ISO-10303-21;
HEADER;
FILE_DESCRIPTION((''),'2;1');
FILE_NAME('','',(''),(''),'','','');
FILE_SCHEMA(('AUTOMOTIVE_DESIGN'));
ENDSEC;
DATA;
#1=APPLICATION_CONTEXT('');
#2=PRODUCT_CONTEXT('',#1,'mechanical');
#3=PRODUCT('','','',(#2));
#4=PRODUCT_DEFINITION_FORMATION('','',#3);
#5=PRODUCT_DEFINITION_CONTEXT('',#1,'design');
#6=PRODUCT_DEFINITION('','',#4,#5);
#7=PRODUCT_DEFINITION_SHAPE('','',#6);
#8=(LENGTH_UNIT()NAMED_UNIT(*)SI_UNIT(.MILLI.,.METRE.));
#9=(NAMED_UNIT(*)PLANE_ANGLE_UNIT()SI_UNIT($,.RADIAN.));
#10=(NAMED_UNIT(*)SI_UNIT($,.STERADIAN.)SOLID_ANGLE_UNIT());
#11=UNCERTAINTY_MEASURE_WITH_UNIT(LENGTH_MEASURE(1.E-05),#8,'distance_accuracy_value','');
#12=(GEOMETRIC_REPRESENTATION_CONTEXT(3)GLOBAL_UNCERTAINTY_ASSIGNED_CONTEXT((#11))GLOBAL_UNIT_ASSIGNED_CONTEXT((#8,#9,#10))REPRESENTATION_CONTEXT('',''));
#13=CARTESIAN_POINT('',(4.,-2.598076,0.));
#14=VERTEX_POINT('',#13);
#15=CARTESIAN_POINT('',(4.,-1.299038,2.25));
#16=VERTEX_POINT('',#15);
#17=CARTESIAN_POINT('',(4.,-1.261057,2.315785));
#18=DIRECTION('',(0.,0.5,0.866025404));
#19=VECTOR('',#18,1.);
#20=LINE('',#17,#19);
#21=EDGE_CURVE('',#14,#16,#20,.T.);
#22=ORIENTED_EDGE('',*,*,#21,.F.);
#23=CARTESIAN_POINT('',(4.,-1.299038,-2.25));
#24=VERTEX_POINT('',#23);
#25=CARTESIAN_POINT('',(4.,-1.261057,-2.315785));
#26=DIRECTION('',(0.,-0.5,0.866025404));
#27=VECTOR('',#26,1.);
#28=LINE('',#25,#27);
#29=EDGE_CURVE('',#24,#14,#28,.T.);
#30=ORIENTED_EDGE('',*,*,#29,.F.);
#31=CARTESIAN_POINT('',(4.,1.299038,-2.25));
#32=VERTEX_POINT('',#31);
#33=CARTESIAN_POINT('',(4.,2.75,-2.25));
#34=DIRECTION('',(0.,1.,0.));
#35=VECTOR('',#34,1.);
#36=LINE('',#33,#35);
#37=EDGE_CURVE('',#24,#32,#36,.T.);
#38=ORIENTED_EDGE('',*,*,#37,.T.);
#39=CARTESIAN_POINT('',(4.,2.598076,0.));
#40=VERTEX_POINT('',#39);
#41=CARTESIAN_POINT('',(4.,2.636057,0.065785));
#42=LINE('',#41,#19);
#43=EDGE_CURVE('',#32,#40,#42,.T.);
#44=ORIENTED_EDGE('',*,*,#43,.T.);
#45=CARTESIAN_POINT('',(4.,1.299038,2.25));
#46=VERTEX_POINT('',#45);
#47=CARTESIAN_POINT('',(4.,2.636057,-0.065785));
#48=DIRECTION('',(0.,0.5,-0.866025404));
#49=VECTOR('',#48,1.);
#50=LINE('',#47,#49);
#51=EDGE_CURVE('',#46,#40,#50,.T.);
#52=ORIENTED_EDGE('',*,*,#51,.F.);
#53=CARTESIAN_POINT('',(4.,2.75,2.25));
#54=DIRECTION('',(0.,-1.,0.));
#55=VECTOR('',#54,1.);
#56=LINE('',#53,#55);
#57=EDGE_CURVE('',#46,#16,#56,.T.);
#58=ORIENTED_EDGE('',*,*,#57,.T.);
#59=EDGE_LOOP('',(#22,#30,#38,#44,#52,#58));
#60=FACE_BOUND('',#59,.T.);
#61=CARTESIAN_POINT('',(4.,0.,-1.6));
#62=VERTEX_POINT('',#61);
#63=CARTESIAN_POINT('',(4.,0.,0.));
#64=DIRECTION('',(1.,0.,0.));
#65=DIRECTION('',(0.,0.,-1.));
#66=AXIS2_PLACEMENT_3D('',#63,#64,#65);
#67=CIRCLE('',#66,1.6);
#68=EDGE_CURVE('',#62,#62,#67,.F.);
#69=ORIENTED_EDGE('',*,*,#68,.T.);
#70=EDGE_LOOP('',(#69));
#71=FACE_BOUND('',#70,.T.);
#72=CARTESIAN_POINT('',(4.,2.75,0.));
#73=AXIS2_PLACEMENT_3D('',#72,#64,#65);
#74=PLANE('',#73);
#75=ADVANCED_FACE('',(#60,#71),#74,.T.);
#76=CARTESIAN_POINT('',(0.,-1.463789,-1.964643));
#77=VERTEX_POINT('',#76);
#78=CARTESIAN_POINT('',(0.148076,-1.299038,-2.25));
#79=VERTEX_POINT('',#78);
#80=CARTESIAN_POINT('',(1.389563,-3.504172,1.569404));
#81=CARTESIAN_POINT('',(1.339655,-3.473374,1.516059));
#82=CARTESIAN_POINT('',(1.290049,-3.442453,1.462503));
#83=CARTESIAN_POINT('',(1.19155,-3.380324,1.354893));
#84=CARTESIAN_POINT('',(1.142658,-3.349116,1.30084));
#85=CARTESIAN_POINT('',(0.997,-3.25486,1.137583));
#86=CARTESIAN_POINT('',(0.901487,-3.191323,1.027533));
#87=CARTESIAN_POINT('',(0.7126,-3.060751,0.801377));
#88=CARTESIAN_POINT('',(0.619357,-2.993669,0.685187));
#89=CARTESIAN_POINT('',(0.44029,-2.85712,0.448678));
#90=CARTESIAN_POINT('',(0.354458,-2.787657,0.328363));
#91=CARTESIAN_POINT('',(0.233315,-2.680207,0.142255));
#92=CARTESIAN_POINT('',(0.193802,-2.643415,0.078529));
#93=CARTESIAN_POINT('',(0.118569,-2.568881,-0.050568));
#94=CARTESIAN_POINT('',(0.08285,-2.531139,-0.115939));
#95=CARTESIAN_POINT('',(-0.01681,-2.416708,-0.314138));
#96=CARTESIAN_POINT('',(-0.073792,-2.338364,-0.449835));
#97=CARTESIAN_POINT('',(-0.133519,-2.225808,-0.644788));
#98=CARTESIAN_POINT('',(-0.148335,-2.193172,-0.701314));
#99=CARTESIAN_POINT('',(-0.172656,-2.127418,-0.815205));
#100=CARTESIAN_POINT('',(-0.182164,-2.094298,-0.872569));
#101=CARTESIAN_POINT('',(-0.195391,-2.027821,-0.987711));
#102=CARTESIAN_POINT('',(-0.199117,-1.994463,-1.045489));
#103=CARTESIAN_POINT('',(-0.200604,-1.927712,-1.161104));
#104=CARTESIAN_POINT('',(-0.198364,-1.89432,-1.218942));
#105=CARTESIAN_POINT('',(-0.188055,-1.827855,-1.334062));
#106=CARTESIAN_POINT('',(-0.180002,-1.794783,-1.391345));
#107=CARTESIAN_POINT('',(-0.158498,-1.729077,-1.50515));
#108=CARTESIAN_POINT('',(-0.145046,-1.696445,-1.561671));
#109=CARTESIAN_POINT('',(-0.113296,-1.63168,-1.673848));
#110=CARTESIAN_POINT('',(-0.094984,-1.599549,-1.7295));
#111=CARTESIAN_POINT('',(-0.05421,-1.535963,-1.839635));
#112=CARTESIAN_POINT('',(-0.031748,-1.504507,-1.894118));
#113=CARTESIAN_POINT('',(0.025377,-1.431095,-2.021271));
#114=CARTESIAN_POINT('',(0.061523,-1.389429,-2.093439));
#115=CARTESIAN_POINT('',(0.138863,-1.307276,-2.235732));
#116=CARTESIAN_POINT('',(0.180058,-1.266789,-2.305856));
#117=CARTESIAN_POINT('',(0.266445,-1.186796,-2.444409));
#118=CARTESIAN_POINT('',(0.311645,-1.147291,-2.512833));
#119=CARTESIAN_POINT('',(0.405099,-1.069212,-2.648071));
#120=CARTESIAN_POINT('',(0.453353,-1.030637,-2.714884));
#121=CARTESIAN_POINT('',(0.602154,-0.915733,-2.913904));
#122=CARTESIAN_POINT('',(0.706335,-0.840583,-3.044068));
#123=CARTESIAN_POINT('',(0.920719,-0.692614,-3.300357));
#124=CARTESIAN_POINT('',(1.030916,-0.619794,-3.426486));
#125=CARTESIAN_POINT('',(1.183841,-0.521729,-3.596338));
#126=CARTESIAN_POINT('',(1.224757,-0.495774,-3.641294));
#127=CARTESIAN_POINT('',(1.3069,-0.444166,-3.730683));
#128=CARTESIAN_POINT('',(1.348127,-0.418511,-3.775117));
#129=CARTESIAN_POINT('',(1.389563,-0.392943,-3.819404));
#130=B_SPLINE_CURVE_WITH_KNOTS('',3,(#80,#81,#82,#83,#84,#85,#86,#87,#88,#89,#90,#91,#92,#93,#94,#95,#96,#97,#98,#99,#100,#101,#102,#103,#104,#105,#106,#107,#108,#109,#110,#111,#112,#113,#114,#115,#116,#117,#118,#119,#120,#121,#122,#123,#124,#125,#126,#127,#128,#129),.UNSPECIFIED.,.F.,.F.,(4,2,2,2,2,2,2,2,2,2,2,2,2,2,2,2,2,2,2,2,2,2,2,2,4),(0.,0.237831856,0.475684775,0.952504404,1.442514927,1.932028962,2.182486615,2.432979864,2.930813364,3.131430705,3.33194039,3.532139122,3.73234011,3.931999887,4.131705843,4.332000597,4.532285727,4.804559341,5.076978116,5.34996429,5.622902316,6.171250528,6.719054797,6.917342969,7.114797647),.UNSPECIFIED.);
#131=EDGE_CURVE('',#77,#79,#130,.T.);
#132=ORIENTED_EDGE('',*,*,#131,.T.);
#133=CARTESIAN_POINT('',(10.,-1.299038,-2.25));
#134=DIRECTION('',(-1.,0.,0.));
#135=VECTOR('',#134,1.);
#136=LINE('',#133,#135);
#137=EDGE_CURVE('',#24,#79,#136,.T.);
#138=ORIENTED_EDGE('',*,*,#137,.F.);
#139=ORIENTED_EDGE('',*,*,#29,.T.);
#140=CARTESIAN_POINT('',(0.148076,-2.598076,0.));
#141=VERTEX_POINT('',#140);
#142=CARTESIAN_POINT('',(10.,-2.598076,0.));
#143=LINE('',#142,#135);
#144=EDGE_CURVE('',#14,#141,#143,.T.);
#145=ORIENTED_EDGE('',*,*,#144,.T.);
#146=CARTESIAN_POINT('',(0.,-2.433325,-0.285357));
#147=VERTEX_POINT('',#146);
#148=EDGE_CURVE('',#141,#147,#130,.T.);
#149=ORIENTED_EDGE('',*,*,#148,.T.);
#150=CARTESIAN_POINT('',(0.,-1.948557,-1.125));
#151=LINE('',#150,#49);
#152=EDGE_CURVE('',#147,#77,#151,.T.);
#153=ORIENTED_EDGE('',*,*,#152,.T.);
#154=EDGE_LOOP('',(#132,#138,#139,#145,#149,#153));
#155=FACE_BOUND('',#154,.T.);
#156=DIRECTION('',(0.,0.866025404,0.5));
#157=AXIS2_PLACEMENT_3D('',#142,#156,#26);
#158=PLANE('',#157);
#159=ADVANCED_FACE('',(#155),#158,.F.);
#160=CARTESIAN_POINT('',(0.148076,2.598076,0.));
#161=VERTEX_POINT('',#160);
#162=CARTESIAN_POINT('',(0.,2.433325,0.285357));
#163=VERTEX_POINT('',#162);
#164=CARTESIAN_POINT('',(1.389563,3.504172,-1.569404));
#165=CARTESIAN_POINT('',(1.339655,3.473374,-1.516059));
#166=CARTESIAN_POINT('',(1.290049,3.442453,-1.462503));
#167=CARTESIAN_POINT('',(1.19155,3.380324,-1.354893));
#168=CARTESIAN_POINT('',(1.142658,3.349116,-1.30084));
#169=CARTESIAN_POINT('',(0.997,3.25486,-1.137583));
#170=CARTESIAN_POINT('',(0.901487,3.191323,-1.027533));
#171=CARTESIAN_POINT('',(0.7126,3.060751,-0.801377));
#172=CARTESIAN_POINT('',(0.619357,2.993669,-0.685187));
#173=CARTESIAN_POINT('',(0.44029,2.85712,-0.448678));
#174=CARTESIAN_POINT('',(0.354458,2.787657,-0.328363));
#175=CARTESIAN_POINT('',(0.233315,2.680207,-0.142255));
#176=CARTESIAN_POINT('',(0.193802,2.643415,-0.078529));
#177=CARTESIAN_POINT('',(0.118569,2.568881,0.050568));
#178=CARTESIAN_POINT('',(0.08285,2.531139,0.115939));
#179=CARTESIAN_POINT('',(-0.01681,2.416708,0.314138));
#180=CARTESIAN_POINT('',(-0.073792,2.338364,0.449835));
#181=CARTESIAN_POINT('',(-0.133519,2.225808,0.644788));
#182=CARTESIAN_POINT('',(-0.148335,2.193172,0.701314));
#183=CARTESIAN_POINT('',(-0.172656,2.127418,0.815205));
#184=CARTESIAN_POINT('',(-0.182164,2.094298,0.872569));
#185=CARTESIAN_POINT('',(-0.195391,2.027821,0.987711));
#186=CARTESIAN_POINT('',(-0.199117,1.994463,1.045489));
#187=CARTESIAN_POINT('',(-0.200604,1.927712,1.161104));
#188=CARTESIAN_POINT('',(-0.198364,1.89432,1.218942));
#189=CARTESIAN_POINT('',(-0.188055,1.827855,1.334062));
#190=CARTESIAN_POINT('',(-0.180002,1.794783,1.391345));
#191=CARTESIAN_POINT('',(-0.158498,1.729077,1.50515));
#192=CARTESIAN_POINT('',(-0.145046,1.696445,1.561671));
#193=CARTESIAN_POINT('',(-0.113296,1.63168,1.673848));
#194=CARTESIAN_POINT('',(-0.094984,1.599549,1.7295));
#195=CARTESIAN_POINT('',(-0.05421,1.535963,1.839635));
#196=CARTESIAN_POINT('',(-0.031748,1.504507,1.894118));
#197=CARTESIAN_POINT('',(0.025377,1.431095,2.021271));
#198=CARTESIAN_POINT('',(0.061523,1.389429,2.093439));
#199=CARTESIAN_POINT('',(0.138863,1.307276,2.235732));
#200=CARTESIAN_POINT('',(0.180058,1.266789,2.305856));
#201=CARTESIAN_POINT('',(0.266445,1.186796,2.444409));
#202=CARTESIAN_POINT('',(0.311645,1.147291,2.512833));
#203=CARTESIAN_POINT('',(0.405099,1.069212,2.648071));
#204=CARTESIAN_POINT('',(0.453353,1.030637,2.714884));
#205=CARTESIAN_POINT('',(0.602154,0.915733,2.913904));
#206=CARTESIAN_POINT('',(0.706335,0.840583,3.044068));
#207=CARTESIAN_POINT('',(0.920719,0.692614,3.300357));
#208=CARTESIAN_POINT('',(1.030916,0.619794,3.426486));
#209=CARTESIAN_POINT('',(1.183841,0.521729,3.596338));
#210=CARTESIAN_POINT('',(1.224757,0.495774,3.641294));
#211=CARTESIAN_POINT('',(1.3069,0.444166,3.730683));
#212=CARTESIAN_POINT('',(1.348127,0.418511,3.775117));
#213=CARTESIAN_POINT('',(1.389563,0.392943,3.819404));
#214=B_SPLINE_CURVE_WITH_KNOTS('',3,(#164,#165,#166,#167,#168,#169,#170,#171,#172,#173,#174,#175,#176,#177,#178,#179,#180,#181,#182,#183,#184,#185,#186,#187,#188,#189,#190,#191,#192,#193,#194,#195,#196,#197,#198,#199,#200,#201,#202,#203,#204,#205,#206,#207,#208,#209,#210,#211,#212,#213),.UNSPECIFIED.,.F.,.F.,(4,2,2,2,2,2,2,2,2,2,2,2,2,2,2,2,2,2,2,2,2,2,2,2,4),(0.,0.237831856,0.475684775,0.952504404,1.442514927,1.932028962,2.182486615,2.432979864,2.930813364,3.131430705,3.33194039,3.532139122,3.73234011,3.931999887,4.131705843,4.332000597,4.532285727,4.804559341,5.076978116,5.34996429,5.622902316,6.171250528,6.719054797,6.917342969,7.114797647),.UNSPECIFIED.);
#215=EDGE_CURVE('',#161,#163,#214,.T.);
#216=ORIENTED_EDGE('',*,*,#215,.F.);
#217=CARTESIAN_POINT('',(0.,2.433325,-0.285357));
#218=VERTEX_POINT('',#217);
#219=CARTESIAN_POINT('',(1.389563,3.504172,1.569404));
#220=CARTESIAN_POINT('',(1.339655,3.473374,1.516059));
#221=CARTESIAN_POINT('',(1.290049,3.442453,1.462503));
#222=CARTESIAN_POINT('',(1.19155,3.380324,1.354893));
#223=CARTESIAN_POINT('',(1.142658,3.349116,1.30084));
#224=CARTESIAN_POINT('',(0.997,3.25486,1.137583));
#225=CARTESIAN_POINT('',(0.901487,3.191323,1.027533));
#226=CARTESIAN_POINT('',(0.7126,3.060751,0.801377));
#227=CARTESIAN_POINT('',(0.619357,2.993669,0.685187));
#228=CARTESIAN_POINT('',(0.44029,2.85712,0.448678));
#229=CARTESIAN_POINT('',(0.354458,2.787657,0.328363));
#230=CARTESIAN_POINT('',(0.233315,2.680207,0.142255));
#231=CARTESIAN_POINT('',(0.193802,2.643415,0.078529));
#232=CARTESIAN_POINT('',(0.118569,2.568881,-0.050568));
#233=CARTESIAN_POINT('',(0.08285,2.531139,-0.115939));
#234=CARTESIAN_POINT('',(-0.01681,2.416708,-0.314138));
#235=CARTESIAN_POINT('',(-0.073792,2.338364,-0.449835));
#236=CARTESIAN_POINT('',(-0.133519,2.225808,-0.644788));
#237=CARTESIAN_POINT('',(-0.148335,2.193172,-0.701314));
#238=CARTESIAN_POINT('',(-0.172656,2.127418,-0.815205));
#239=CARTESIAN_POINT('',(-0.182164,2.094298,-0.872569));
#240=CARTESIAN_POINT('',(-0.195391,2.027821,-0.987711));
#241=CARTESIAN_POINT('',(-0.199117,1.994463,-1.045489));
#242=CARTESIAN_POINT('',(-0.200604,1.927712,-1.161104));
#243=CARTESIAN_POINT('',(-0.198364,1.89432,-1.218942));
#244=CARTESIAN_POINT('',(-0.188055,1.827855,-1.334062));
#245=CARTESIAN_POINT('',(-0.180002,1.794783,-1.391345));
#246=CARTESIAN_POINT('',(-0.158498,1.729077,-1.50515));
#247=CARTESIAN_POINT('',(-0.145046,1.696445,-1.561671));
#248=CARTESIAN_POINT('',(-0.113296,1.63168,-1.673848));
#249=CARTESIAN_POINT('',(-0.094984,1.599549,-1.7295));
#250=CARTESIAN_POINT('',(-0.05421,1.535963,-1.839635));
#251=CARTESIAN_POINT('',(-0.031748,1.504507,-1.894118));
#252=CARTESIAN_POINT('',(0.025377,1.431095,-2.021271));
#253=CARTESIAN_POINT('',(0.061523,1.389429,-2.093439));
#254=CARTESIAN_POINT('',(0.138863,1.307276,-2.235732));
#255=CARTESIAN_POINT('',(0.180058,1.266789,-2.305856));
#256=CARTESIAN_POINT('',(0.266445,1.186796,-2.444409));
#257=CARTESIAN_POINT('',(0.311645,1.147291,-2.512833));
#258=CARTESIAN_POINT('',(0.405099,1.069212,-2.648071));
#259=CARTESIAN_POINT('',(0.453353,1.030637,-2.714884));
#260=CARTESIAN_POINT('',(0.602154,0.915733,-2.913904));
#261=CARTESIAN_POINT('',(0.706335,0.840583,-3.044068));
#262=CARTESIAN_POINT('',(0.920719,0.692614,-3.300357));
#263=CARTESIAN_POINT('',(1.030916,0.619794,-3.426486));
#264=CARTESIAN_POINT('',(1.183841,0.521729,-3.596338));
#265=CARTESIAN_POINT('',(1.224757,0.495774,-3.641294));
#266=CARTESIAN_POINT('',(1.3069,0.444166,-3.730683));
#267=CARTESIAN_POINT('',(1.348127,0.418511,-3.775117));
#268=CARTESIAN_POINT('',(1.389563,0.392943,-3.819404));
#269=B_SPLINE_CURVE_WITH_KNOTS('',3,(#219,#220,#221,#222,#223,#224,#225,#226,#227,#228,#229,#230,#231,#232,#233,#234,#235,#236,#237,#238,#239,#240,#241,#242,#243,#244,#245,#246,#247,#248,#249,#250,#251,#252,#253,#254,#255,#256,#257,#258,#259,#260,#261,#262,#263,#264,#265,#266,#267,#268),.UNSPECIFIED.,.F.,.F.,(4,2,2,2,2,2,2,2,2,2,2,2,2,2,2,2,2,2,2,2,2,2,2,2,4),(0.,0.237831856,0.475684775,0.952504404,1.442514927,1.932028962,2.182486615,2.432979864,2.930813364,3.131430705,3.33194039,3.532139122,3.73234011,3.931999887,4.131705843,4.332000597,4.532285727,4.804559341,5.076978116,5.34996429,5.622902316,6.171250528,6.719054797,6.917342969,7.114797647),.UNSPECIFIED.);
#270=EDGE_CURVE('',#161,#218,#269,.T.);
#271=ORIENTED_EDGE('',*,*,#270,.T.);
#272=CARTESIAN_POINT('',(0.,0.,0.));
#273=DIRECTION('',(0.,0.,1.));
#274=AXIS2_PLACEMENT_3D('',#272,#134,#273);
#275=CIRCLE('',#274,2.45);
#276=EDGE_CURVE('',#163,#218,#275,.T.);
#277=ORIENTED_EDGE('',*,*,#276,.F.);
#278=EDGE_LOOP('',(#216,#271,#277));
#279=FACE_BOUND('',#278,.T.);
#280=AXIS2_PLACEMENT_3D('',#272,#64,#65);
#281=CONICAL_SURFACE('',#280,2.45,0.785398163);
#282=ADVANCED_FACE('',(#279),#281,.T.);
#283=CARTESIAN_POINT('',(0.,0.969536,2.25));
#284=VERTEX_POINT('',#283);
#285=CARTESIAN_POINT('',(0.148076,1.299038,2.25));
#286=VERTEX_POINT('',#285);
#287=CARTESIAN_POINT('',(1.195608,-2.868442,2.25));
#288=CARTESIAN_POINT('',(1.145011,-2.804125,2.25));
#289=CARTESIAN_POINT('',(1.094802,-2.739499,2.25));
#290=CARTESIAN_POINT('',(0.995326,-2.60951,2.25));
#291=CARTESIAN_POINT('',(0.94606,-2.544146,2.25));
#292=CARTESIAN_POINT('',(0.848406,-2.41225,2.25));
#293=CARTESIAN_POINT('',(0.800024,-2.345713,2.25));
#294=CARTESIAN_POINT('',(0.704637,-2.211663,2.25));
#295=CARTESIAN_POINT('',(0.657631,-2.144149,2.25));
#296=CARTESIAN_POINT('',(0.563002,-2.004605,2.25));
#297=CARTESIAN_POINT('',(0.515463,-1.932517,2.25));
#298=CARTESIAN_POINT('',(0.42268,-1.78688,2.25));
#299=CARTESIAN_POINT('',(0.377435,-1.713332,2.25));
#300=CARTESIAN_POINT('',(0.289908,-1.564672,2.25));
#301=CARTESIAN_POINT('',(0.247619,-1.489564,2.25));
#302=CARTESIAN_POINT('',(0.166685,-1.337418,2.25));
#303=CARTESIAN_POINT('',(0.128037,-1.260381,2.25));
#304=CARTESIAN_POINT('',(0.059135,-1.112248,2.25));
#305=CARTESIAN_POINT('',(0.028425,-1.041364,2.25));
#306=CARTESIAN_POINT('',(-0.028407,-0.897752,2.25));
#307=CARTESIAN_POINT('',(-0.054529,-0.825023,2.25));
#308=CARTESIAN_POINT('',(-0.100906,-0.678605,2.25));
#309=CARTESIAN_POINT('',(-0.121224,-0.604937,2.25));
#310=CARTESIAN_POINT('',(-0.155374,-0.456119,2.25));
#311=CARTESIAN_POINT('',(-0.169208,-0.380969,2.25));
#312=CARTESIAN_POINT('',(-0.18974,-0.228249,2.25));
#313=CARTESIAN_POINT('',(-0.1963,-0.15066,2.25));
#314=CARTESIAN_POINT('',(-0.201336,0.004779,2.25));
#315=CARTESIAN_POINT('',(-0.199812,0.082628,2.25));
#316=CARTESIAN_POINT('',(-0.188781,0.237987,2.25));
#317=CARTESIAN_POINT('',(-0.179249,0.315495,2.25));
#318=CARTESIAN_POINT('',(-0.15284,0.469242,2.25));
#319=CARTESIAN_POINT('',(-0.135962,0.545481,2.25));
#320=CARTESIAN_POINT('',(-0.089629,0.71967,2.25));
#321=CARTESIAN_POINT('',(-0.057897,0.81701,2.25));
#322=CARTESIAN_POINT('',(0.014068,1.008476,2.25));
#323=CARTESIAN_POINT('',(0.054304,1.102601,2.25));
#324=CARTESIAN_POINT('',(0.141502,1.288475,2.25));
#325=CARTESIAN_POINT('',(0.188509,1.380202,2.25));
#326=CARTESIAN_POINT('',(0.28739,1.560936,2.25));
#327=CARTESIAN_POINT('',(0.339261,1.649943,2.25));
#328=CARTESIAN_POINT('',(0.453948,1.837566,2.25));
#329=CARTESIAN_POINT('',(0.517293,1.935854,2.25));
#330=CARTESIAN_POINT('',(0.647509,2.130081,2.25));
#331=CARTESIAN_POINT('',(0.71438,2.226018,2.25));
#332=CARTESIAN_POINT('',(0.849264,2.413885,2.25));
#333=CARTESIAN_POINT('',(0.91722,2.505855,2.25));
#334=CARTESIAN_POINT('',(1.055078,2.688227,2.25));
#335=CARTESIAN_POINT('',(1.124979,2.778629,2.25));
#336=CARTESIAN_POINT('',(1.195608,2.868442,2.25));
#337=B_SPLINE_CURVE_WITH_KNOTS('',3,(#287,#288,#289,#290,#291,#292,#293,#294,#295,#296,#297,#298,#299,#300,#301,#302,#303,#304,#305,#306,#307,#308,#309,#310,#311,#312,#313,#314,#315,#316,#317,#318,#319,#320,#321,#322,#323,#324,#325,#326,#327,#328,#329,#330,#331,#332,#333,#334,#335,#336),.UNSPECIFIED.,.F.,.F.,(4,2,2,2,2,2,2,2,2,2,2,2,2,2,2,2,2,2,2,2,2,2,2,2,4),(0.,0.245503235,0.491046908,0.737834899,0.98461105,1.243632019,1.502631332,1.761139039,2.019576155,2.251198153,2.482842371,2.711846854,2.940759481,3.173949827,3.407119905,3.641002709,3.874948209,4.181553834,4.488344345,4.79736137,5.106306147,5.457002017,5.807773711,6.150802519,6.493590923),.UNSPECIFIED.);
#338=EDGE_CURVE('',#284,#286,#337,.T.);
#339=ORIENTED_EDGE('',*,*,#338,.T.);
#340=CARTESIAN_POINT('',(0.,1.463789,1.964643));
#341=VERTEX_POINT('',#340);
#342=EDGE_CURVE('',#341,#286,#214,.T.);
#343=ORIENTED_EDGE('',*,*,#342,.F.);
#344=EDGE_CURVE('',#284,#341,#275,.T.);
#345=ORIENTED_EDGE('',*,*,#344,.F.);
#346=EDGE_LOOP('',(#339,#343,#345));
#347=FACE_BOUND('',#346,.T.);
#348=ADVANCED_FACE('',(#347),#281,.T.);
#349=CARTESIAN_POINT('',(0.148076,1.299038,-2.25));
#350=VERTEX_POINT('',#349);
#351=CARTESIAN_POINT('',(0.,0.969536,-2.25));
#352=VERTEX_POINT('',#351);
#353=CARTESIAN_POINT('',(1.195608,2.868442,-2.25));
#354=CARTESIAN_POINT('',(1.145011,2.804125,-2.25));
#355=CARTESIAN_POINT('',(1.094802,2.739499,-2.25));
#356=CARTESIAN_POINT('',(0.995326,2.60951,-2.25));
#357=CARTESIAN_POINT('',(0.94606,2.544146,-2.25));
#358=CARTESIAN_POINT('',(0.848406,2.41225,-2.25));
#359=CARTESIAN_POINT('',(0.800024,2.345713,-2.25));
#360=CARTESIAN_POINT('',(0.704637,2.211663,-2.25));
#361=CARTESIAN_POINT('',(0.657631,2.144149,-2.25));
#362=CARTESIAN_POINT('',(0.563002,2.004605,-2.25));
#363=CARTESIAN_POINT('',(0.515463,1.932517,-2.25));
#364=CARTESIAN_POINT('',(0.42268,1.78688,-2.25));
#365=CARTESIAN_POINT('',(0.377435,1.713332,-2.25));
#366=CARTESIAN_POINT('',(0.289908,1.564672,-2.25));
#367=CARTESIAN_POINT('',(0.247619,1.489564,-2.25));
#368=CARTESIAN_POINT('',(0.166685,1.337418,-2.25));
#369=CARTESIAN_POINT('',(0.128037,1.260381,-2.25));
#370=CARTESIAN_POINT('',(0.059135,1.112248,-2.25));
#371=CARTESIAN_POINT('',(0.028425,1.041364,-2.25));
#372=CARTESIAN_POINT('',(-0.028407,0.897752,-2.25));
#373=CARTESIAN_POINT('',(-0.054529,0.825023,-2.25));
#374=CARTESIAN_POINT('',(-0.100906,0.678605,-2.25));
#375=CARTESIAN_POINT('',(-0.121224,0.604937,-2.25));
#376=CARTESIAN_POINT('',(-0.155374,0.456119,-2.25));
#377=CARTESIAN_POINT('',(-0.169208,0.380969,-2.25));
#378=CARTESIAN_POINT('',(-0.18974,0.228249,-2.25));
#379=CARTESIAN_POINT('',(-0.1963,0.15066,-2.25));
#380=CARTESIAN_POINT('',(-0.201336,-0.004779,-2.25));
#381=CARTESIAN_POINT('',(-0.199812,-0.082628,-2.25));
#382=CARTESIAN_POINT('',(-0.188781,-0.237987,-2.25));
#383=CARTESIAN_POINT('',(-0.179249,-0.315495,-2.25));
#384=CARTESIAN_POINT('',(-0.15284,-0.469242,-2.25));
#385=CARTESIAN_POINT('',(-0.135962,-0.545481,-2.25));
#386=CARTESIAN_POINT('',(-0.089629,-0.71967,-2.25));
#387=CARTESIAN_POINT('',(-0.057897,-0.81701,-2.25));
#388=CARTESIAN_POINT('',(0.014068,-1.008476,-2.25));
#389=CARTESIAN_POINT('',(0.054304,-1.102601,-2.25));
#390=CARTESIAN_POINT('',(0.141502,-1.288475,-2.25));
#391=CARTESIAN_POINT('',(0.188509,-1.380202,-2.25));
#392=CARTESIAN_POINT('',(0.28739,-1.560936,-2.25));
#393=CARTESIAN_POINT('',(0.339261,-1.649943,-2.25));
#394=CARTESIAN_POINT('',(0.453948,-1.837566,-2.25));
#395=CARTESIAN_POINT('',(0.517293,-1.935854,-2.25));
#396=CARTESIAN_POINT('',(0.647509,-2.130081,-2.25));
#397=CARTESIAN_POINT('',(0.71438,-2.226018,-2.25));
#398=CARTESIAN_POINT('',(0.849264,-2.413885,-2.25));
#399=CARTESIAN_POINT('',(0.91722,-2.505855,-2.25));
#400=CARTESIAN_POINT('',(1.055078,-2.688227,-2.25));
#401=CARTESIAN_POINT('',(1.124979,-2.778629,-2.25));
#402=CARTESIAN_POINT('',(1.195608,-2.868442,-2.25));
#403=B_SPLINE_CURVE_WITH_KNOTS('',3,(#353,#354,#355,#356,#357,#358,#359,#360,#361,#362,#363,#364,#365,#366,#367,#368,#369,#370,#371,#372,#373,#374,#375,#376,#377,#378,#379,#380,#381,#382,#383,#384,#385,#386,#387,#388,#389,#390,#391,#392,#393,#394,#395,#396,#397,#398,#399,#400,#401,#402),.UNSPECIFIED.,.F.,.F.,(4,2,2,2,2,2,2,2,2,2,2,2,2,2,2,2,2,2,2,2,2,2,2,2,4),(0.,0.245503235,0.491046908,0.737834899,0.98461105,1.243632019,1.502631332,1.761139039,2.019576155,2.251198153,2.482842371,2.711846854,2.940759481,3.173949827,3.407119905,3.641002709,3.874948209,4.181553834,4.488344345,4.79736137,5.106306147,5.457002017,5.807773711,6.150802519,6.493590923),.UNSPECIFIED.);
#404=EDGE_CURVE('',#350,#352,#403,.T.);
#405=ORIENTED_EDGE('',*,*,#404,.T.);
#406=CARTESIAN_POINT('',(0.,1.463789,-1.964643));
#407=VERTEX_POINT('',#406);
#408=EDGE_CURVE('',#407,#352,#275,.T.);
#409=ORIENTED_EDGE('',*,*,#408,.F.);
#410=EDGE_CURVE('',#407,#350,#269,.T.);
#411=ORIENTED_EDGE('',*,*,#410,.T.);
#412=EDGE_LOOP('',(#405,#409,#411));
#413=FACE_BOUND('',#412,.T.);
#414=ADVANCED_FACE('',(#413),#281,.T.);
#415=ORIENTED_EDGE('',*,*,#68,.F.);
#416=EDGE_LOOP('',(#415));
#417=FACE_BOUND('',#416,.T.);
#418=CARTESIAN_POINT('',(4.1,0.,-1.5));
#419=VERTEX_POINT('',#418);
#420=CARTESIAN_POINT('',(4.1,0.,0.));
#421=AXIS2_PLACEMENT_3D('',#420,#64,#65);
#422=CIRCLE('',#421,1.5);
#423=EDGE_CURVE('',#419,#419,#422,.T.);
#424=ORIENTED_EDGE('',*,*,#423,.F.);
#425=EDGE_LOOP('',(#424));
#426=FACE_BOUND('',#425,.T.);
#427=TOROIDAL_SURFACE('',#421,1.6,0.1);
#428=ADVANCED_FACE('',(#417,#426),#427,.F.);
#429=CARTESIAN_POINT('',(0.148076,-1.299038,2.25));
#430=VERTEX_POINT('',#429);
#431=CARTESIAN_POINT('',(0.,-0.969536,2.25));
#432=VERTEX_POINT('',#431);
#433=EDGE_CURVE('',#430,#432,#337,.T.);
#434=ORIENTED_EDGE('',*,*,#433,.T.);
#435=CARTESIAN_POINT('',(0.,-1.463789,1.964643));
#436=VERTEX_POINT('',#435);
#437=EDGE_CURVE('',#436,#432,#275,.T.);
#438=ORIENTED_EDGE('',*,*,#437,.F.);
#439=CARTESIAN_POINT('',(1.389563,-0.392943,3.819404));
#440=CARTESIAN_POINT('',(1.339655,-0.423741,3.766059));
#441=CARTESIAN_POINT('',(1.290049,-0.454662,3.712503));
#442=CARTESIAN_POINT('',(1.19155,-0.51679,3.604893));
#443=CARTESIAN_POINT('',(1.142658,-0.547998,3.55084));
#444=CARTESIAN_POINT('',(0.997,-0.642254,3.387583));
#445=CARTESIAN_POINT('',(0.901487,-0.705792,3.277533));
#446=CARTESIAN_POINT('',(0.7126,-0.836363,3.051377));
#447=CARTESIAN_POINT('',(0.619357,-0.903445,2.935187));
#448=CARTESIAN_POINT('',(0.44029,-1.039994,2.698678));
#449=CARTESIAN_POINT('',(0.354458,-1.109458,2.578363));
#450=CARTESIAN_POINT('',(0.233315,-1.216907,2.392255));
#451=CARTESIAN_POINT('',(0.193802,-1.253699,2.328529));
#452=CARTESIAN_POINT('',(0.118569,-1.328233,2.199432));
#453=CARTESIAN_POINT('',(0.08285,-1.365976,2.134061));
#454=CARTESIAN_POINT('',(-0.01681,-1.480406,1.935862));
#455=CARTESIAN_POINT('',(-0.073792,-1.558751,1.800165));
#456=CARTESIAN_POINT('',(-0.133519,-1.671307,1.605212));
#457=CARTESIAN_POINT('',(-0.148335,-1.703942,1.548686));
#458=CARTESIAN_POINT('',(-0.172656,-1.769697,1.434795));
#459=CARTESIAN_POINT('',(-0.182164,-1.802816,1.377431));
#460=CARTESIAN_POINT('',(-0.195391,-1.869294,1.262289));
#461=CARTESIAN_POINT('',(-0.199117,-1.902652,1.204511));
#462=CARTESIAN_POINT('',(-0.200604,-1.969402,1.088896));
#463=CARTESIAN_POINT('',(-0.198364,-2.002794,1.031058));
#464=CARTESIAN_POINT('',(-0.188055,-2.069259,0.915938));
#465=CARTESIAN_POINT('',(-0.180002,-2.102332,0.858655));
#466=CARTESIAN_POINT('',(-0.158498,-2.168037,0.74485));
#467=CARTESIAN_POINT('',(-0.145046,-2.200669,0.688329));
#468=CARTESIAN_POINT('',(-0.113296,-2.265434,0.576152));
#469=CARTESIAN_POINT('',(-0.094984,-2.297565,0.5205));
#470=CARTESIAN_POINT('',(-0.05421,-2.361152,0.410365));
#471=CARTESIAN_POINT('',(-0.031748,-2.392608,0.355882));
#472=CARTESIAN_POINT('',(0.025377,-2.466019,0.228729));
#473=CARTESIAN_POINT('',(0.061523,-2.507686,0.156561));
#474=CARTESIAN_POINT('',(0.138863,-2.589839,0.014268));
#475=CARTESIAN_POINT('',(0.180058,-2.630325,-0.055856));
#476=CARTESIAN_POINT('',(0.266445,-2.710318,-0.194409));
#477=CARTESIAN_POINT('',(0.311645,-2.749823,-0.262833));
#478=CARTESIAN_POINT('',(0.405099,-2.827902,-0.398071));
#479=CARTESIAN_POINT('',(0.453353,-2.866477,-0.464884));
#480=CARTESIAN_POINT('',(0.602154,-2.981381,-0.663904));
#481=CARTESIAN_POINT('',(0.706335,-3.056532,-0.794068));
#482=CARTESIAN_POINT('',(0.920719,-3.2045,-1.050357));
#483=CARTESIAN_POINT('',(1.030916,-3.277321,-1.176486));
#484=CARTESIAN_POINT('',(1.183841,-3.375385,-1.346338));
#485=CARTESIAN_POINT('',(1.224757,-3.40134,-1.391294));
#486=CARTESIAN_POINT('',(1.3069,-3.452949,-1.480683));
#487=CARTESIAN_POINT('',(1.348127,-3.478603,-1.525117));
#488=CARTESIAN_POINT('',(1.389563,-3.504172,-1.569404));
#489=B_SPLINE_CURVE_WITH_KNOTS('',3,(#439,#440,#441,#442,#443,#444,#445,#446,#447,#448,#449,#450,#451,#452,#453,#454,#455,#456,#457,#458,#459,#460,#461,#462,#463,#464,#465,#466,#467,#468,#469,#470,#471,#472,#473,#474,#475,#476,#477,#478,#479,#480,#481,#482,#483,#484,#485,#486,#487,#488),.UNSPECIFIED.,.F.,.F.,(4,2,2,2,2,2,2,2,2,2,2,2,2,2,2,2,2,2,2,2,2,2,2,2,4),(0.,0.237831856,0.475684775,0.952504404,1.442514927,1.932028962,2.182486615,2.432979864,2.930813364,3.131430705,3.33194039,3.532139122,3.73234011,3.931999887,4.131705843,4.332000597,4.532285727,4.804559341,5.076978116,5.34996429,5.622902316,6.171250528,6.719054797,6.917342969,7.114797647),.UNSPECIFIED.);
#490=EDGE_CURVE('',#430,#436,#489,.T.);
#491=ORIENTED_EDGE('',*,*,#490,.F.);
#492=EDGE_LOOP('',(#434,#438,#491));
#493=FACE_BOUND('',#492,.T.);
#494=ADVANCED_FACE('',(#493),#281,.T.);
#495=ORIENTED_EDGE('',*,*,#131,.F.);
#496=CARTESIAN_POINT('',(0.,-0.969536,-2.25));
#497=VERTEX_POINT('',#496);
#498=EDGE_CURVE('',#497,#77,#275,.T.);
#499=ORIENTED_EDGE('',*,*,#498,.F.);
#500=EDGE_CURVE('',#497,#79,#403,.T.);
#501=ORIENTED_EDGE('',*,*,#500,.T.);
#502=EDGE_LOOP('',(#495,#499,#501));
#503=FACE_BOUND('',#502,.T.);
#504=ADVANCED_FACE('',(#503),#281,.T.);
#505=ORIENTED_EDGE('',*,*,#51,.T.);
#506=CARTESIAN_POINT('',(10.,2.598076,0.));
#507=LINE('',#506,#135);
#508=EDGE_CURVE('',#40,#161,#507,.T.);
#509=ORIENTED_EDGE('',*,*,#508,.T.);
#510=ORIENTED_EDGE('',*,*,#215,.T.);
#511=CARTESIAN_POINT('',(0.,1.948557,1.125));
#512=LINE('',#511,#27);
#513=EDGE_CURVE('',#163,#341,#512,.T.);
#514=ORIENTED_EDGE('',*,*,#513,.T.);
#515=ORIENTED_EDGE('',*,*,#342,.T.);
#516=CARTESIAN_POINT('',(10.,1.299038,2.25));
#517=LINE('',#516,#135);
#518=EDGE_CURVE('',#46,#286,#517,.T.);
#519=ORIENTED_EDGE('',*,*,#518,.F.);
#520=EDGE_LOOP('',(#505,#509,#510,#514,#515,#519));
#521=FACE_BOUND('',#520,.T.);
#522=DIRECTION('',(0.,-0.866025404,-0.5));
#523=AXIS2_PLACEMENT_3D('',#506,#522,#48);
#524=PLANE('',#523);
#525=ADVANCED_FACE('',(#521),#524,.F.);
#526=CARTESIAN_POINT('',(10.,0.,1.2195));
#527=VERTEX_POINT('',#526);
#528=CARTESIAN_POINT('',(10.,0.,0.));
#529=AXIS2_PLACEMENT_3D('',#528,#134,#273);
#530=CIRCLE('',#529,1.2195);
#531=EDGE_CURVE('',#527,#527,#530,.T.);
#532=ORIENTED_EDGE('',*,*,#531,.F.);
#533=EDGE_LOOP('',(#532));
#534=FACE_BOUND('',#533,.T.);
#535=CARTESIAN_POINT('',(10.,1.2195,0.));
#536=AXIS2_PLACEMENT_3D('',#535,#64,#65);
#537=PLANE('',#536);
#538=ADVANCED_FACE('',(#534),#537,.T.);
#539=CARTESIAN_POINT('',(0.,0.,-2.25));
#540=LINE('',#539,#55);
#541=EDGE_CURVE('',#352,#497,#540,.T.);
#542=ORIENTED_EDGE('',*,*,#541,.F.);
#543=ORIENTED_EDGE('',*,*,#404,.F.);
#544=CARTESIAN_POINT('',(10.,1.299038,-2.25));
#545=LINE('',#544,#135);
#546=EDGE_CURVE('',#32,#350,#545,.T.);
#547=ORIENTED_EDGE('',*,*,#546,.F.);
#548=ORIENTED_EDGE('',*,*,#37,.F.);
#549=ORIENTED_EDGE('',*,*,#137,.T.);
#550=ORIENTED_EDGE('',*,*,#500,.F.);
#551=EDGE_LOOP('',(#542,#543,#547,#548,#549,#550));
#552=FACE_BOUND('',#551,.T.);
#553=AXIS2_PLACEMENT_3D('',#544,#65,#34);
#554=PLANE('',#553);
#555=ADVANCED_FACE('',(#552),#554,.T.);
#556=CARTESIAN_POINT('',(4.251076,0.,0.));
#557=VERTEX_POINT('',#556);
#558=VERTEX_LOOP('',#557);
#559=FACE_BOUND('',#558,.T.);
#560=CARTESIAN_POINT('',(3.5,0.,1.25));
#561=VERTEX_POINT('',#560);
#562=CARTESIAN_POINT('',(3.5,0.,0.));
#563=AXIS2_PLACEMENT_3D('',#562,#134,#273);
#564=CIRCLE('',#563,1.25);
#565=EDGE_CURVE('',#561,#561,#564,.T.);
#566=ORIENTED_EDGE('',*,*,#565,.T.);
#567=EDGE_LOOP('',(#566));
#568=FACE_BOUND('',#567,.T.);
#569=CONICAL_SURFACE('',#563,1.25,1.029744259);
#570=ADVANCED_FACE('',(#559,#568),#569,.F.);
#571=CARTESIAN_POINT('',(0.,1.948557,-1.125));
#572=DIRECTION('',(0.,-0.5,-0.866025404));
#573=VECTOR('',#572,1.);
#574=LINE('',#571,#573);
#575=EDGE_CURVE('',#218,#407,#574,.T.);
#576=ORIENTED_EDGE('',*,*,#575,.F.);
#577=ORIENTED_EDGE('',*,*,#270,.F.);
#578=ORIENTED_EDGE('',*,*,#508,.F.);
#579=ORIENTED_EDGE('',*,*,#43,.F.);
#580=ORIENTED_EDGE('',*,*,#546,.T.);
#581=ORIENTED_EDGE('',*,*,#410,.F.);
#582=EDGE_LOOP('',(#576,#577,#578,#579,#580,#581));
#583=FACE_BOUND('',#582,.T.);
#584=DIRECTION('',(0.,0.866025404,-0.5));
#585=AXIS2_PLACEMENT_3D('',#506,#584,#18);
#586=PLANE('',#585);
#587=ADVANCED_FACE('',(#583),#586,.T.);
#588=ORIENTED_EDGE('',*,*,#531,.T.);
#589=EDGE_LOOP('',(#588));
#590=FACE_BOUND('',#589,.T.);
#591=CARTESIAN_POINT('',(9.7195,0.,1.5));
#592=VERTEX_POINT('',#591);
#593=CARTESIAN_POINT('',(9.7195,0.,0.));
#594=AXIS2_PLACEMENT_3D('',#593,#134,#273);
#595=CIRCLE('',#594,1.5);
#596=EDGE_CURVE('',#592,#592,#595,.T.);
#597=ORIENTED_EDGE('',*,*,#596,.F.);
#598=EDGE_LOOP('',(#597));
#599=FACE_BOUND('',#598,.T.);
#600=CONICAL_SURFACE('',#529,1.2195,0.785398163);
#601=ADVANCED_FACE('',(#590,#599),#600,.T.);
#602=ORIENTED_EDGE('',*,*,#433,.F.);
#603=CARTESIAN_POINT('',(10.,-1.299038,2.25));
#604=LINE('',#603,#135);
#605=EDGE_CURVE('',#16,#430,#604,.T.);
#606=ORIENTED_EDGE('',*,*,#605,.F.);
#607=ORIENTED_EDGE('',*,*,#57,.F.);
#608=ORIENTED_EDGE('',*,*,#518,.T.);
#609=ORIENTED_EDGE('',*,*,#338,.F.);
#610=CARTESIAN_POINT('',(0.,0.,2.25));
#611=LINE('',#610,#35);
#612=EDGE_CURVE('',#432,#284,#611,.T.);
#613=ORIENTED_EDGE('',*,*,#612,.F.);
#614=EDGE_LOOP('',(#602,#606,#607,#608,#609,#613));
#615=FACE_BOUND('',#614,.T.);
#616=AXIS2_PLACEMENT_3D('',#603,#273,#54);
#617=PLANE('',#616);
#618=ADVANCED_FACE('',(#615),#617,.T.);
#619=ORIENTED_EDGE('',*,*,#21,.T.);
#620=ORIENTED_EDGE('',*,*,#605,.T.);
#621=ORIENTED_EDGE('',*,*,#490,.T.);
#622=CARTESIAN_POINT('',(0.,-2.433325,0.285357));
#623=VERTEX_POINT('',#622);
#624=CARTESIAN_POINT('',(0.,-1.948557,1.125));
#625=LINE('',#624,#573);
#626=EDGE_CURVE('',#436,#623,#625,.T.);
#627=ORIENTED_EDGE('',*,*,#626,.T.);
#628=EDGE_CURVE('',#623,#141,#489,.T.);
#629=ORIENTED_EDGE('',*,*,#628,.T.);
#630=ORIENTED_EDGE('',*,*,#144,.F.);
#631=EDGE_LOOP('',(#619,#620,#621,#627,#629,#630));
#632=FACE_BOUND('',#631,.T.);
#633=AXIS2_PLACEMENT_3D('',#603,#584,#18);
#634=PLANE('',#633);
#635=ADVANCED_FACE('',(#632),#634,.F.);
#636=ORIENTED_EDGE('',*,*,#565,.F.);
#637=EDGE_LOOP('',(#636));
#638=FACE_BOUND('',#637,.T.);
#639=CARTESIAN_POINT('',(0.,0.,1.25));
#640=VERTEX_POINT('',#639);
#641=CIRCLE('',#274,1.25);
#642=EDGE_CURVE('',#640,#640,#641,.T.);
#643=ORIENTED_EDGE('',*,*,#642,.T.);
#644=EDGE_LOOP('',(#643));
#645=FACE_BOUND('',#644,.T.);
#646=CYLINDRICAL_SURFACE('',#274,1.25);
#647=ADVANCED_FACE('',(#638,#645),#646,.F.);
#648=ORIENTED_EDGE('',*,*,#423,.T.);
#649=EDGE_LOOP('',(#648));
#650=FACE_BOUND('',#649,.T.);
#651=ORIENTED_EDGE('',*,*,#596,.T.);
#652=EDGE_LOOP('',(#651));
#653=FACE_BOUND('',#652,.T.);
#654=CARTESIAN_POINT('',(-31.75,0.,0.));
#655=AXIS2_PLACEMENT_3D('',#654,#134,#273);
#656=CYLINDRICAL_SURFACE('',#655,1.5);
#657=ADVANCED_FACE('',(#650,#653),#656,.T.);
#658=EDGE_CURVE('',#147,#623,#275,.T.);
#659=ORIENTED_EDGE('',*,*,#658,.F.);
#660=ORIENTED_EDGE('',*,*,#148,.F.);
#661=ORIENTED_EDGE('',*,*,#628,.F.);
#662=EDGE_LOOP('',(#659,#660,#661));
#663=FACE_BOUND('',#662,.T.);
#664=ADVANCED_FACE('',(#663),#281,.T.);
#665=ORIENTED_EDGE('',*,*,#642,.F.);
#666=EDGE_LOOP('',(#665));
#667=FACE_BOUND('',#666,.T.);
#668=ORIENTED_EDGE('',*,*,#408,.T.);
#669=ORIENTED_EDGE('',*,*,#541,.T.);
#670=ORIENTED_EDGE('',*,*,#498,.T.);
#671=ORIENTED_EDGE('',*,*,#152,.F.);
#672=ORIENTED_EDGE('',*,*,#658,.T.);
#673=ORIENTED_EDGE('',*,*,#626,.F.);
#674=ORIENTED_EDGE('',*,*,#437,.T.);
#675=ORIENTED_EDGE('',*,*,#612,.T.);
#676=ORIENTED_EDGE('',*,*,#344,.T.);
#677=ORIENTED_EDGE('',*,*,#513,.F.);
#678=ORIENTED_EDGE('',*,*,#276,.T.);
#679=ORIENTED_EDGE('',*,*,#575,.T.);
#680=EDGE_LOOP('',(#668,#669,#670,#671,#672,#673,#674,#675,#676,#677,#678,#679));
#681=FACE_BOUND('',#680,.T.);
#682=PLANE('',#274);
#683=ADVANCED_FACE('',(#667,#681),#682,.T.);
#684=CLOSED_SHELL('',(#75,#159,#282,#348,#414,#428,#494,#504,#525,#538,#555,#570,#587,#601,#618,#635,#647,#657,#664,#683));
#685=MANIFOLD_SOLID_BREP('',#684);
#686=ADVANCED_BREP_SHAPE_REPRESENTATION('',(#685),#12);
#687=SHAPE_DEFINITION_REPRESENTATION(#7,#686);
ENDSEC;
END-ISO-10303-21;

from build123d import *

# Parameters (mm, degrees)
FILLET1_R                 = 0.1
SKETCH3_OUTSIDE_W         = 12.048
SKETCH3_OUTSIDE_H         = 12.048
HEX_2_DEPTH               = 11
M3X0_5_TAPPED_HOLE1_D     = 2.5
M3X0_5_TAPPED_HOLE1_DEPTH = 3.5
M3X0_5_TAPPED_HOLE1_TIP   = 0.751075774


with BuildPart() as part:
    # BodySke → Base-Revolve (revolve)
    with BuildSketch(Plane.XY):
        Polygon((0, 0), (0, 2.45), (0.3, 2.75), (4, 2.75), (4, 1.5), (9.7195, 1.5), (10, 1.2195), (10, 0), align=None)
    revolve(axis=Axis((-31.75, 0, 0), (1, 0, 0)))

    # Fillet1
    fillet1_edges = [part.edges().sort_by_distance(p)[0] for p in [
        (4, -1.5, 0),
    ]]
    fillet(fillet1_edges, radius=FILLET1_R)

    # Sketch3 outside → Hex 2 (cut, through all)
    with BuildSketch(Plane(origin=(0, 0, 0), x_dir=(0, 0.5, 0.866025404), z_dir=(-1, 0, 0))):
        Rectangle(SKETCH3_OUTSIDE_W, SKETCH3_OUTSIDE_H)
        Polygon((1.299038106, 2.25), (-1.299038106, 2.25), (-2.598076211, 0), (-1.299038106, -2.25), (1.299038106, -2.25), (2.598076211, 0), align=None, mode=Mode.SUBTRACT)
    extrude(amount=-HEX_2_DEPTH, mode=Mode.SUBTRACT)

    # M3x0.5 Tapped Hole1
    with Locations(Plane(origin=(0, 0, 0), x_dir=(0, 0, -1), z_dir=(-1, 0, 0))):
        with Locations((0, 0)):
            Hole(M3X0_5_TAPPED_HOLE1_D / 2, depth=M3X0_5_TAPPED_HOLE1_DEPTH)
            with Locations((0, 0, -(M3X0_5_TAPPED_HOLE1_DEPTH + M3X0_5_TAPPED_HOLE1_TIP / 2))):  # 118° drill point
                Cone(0, M3X0_5_TAPPED_HOLE1_D / 2, M3X0_5_TAPPED_HOLE1_TIP, mode=Mode.SUBTRACT)


solid = part.part
